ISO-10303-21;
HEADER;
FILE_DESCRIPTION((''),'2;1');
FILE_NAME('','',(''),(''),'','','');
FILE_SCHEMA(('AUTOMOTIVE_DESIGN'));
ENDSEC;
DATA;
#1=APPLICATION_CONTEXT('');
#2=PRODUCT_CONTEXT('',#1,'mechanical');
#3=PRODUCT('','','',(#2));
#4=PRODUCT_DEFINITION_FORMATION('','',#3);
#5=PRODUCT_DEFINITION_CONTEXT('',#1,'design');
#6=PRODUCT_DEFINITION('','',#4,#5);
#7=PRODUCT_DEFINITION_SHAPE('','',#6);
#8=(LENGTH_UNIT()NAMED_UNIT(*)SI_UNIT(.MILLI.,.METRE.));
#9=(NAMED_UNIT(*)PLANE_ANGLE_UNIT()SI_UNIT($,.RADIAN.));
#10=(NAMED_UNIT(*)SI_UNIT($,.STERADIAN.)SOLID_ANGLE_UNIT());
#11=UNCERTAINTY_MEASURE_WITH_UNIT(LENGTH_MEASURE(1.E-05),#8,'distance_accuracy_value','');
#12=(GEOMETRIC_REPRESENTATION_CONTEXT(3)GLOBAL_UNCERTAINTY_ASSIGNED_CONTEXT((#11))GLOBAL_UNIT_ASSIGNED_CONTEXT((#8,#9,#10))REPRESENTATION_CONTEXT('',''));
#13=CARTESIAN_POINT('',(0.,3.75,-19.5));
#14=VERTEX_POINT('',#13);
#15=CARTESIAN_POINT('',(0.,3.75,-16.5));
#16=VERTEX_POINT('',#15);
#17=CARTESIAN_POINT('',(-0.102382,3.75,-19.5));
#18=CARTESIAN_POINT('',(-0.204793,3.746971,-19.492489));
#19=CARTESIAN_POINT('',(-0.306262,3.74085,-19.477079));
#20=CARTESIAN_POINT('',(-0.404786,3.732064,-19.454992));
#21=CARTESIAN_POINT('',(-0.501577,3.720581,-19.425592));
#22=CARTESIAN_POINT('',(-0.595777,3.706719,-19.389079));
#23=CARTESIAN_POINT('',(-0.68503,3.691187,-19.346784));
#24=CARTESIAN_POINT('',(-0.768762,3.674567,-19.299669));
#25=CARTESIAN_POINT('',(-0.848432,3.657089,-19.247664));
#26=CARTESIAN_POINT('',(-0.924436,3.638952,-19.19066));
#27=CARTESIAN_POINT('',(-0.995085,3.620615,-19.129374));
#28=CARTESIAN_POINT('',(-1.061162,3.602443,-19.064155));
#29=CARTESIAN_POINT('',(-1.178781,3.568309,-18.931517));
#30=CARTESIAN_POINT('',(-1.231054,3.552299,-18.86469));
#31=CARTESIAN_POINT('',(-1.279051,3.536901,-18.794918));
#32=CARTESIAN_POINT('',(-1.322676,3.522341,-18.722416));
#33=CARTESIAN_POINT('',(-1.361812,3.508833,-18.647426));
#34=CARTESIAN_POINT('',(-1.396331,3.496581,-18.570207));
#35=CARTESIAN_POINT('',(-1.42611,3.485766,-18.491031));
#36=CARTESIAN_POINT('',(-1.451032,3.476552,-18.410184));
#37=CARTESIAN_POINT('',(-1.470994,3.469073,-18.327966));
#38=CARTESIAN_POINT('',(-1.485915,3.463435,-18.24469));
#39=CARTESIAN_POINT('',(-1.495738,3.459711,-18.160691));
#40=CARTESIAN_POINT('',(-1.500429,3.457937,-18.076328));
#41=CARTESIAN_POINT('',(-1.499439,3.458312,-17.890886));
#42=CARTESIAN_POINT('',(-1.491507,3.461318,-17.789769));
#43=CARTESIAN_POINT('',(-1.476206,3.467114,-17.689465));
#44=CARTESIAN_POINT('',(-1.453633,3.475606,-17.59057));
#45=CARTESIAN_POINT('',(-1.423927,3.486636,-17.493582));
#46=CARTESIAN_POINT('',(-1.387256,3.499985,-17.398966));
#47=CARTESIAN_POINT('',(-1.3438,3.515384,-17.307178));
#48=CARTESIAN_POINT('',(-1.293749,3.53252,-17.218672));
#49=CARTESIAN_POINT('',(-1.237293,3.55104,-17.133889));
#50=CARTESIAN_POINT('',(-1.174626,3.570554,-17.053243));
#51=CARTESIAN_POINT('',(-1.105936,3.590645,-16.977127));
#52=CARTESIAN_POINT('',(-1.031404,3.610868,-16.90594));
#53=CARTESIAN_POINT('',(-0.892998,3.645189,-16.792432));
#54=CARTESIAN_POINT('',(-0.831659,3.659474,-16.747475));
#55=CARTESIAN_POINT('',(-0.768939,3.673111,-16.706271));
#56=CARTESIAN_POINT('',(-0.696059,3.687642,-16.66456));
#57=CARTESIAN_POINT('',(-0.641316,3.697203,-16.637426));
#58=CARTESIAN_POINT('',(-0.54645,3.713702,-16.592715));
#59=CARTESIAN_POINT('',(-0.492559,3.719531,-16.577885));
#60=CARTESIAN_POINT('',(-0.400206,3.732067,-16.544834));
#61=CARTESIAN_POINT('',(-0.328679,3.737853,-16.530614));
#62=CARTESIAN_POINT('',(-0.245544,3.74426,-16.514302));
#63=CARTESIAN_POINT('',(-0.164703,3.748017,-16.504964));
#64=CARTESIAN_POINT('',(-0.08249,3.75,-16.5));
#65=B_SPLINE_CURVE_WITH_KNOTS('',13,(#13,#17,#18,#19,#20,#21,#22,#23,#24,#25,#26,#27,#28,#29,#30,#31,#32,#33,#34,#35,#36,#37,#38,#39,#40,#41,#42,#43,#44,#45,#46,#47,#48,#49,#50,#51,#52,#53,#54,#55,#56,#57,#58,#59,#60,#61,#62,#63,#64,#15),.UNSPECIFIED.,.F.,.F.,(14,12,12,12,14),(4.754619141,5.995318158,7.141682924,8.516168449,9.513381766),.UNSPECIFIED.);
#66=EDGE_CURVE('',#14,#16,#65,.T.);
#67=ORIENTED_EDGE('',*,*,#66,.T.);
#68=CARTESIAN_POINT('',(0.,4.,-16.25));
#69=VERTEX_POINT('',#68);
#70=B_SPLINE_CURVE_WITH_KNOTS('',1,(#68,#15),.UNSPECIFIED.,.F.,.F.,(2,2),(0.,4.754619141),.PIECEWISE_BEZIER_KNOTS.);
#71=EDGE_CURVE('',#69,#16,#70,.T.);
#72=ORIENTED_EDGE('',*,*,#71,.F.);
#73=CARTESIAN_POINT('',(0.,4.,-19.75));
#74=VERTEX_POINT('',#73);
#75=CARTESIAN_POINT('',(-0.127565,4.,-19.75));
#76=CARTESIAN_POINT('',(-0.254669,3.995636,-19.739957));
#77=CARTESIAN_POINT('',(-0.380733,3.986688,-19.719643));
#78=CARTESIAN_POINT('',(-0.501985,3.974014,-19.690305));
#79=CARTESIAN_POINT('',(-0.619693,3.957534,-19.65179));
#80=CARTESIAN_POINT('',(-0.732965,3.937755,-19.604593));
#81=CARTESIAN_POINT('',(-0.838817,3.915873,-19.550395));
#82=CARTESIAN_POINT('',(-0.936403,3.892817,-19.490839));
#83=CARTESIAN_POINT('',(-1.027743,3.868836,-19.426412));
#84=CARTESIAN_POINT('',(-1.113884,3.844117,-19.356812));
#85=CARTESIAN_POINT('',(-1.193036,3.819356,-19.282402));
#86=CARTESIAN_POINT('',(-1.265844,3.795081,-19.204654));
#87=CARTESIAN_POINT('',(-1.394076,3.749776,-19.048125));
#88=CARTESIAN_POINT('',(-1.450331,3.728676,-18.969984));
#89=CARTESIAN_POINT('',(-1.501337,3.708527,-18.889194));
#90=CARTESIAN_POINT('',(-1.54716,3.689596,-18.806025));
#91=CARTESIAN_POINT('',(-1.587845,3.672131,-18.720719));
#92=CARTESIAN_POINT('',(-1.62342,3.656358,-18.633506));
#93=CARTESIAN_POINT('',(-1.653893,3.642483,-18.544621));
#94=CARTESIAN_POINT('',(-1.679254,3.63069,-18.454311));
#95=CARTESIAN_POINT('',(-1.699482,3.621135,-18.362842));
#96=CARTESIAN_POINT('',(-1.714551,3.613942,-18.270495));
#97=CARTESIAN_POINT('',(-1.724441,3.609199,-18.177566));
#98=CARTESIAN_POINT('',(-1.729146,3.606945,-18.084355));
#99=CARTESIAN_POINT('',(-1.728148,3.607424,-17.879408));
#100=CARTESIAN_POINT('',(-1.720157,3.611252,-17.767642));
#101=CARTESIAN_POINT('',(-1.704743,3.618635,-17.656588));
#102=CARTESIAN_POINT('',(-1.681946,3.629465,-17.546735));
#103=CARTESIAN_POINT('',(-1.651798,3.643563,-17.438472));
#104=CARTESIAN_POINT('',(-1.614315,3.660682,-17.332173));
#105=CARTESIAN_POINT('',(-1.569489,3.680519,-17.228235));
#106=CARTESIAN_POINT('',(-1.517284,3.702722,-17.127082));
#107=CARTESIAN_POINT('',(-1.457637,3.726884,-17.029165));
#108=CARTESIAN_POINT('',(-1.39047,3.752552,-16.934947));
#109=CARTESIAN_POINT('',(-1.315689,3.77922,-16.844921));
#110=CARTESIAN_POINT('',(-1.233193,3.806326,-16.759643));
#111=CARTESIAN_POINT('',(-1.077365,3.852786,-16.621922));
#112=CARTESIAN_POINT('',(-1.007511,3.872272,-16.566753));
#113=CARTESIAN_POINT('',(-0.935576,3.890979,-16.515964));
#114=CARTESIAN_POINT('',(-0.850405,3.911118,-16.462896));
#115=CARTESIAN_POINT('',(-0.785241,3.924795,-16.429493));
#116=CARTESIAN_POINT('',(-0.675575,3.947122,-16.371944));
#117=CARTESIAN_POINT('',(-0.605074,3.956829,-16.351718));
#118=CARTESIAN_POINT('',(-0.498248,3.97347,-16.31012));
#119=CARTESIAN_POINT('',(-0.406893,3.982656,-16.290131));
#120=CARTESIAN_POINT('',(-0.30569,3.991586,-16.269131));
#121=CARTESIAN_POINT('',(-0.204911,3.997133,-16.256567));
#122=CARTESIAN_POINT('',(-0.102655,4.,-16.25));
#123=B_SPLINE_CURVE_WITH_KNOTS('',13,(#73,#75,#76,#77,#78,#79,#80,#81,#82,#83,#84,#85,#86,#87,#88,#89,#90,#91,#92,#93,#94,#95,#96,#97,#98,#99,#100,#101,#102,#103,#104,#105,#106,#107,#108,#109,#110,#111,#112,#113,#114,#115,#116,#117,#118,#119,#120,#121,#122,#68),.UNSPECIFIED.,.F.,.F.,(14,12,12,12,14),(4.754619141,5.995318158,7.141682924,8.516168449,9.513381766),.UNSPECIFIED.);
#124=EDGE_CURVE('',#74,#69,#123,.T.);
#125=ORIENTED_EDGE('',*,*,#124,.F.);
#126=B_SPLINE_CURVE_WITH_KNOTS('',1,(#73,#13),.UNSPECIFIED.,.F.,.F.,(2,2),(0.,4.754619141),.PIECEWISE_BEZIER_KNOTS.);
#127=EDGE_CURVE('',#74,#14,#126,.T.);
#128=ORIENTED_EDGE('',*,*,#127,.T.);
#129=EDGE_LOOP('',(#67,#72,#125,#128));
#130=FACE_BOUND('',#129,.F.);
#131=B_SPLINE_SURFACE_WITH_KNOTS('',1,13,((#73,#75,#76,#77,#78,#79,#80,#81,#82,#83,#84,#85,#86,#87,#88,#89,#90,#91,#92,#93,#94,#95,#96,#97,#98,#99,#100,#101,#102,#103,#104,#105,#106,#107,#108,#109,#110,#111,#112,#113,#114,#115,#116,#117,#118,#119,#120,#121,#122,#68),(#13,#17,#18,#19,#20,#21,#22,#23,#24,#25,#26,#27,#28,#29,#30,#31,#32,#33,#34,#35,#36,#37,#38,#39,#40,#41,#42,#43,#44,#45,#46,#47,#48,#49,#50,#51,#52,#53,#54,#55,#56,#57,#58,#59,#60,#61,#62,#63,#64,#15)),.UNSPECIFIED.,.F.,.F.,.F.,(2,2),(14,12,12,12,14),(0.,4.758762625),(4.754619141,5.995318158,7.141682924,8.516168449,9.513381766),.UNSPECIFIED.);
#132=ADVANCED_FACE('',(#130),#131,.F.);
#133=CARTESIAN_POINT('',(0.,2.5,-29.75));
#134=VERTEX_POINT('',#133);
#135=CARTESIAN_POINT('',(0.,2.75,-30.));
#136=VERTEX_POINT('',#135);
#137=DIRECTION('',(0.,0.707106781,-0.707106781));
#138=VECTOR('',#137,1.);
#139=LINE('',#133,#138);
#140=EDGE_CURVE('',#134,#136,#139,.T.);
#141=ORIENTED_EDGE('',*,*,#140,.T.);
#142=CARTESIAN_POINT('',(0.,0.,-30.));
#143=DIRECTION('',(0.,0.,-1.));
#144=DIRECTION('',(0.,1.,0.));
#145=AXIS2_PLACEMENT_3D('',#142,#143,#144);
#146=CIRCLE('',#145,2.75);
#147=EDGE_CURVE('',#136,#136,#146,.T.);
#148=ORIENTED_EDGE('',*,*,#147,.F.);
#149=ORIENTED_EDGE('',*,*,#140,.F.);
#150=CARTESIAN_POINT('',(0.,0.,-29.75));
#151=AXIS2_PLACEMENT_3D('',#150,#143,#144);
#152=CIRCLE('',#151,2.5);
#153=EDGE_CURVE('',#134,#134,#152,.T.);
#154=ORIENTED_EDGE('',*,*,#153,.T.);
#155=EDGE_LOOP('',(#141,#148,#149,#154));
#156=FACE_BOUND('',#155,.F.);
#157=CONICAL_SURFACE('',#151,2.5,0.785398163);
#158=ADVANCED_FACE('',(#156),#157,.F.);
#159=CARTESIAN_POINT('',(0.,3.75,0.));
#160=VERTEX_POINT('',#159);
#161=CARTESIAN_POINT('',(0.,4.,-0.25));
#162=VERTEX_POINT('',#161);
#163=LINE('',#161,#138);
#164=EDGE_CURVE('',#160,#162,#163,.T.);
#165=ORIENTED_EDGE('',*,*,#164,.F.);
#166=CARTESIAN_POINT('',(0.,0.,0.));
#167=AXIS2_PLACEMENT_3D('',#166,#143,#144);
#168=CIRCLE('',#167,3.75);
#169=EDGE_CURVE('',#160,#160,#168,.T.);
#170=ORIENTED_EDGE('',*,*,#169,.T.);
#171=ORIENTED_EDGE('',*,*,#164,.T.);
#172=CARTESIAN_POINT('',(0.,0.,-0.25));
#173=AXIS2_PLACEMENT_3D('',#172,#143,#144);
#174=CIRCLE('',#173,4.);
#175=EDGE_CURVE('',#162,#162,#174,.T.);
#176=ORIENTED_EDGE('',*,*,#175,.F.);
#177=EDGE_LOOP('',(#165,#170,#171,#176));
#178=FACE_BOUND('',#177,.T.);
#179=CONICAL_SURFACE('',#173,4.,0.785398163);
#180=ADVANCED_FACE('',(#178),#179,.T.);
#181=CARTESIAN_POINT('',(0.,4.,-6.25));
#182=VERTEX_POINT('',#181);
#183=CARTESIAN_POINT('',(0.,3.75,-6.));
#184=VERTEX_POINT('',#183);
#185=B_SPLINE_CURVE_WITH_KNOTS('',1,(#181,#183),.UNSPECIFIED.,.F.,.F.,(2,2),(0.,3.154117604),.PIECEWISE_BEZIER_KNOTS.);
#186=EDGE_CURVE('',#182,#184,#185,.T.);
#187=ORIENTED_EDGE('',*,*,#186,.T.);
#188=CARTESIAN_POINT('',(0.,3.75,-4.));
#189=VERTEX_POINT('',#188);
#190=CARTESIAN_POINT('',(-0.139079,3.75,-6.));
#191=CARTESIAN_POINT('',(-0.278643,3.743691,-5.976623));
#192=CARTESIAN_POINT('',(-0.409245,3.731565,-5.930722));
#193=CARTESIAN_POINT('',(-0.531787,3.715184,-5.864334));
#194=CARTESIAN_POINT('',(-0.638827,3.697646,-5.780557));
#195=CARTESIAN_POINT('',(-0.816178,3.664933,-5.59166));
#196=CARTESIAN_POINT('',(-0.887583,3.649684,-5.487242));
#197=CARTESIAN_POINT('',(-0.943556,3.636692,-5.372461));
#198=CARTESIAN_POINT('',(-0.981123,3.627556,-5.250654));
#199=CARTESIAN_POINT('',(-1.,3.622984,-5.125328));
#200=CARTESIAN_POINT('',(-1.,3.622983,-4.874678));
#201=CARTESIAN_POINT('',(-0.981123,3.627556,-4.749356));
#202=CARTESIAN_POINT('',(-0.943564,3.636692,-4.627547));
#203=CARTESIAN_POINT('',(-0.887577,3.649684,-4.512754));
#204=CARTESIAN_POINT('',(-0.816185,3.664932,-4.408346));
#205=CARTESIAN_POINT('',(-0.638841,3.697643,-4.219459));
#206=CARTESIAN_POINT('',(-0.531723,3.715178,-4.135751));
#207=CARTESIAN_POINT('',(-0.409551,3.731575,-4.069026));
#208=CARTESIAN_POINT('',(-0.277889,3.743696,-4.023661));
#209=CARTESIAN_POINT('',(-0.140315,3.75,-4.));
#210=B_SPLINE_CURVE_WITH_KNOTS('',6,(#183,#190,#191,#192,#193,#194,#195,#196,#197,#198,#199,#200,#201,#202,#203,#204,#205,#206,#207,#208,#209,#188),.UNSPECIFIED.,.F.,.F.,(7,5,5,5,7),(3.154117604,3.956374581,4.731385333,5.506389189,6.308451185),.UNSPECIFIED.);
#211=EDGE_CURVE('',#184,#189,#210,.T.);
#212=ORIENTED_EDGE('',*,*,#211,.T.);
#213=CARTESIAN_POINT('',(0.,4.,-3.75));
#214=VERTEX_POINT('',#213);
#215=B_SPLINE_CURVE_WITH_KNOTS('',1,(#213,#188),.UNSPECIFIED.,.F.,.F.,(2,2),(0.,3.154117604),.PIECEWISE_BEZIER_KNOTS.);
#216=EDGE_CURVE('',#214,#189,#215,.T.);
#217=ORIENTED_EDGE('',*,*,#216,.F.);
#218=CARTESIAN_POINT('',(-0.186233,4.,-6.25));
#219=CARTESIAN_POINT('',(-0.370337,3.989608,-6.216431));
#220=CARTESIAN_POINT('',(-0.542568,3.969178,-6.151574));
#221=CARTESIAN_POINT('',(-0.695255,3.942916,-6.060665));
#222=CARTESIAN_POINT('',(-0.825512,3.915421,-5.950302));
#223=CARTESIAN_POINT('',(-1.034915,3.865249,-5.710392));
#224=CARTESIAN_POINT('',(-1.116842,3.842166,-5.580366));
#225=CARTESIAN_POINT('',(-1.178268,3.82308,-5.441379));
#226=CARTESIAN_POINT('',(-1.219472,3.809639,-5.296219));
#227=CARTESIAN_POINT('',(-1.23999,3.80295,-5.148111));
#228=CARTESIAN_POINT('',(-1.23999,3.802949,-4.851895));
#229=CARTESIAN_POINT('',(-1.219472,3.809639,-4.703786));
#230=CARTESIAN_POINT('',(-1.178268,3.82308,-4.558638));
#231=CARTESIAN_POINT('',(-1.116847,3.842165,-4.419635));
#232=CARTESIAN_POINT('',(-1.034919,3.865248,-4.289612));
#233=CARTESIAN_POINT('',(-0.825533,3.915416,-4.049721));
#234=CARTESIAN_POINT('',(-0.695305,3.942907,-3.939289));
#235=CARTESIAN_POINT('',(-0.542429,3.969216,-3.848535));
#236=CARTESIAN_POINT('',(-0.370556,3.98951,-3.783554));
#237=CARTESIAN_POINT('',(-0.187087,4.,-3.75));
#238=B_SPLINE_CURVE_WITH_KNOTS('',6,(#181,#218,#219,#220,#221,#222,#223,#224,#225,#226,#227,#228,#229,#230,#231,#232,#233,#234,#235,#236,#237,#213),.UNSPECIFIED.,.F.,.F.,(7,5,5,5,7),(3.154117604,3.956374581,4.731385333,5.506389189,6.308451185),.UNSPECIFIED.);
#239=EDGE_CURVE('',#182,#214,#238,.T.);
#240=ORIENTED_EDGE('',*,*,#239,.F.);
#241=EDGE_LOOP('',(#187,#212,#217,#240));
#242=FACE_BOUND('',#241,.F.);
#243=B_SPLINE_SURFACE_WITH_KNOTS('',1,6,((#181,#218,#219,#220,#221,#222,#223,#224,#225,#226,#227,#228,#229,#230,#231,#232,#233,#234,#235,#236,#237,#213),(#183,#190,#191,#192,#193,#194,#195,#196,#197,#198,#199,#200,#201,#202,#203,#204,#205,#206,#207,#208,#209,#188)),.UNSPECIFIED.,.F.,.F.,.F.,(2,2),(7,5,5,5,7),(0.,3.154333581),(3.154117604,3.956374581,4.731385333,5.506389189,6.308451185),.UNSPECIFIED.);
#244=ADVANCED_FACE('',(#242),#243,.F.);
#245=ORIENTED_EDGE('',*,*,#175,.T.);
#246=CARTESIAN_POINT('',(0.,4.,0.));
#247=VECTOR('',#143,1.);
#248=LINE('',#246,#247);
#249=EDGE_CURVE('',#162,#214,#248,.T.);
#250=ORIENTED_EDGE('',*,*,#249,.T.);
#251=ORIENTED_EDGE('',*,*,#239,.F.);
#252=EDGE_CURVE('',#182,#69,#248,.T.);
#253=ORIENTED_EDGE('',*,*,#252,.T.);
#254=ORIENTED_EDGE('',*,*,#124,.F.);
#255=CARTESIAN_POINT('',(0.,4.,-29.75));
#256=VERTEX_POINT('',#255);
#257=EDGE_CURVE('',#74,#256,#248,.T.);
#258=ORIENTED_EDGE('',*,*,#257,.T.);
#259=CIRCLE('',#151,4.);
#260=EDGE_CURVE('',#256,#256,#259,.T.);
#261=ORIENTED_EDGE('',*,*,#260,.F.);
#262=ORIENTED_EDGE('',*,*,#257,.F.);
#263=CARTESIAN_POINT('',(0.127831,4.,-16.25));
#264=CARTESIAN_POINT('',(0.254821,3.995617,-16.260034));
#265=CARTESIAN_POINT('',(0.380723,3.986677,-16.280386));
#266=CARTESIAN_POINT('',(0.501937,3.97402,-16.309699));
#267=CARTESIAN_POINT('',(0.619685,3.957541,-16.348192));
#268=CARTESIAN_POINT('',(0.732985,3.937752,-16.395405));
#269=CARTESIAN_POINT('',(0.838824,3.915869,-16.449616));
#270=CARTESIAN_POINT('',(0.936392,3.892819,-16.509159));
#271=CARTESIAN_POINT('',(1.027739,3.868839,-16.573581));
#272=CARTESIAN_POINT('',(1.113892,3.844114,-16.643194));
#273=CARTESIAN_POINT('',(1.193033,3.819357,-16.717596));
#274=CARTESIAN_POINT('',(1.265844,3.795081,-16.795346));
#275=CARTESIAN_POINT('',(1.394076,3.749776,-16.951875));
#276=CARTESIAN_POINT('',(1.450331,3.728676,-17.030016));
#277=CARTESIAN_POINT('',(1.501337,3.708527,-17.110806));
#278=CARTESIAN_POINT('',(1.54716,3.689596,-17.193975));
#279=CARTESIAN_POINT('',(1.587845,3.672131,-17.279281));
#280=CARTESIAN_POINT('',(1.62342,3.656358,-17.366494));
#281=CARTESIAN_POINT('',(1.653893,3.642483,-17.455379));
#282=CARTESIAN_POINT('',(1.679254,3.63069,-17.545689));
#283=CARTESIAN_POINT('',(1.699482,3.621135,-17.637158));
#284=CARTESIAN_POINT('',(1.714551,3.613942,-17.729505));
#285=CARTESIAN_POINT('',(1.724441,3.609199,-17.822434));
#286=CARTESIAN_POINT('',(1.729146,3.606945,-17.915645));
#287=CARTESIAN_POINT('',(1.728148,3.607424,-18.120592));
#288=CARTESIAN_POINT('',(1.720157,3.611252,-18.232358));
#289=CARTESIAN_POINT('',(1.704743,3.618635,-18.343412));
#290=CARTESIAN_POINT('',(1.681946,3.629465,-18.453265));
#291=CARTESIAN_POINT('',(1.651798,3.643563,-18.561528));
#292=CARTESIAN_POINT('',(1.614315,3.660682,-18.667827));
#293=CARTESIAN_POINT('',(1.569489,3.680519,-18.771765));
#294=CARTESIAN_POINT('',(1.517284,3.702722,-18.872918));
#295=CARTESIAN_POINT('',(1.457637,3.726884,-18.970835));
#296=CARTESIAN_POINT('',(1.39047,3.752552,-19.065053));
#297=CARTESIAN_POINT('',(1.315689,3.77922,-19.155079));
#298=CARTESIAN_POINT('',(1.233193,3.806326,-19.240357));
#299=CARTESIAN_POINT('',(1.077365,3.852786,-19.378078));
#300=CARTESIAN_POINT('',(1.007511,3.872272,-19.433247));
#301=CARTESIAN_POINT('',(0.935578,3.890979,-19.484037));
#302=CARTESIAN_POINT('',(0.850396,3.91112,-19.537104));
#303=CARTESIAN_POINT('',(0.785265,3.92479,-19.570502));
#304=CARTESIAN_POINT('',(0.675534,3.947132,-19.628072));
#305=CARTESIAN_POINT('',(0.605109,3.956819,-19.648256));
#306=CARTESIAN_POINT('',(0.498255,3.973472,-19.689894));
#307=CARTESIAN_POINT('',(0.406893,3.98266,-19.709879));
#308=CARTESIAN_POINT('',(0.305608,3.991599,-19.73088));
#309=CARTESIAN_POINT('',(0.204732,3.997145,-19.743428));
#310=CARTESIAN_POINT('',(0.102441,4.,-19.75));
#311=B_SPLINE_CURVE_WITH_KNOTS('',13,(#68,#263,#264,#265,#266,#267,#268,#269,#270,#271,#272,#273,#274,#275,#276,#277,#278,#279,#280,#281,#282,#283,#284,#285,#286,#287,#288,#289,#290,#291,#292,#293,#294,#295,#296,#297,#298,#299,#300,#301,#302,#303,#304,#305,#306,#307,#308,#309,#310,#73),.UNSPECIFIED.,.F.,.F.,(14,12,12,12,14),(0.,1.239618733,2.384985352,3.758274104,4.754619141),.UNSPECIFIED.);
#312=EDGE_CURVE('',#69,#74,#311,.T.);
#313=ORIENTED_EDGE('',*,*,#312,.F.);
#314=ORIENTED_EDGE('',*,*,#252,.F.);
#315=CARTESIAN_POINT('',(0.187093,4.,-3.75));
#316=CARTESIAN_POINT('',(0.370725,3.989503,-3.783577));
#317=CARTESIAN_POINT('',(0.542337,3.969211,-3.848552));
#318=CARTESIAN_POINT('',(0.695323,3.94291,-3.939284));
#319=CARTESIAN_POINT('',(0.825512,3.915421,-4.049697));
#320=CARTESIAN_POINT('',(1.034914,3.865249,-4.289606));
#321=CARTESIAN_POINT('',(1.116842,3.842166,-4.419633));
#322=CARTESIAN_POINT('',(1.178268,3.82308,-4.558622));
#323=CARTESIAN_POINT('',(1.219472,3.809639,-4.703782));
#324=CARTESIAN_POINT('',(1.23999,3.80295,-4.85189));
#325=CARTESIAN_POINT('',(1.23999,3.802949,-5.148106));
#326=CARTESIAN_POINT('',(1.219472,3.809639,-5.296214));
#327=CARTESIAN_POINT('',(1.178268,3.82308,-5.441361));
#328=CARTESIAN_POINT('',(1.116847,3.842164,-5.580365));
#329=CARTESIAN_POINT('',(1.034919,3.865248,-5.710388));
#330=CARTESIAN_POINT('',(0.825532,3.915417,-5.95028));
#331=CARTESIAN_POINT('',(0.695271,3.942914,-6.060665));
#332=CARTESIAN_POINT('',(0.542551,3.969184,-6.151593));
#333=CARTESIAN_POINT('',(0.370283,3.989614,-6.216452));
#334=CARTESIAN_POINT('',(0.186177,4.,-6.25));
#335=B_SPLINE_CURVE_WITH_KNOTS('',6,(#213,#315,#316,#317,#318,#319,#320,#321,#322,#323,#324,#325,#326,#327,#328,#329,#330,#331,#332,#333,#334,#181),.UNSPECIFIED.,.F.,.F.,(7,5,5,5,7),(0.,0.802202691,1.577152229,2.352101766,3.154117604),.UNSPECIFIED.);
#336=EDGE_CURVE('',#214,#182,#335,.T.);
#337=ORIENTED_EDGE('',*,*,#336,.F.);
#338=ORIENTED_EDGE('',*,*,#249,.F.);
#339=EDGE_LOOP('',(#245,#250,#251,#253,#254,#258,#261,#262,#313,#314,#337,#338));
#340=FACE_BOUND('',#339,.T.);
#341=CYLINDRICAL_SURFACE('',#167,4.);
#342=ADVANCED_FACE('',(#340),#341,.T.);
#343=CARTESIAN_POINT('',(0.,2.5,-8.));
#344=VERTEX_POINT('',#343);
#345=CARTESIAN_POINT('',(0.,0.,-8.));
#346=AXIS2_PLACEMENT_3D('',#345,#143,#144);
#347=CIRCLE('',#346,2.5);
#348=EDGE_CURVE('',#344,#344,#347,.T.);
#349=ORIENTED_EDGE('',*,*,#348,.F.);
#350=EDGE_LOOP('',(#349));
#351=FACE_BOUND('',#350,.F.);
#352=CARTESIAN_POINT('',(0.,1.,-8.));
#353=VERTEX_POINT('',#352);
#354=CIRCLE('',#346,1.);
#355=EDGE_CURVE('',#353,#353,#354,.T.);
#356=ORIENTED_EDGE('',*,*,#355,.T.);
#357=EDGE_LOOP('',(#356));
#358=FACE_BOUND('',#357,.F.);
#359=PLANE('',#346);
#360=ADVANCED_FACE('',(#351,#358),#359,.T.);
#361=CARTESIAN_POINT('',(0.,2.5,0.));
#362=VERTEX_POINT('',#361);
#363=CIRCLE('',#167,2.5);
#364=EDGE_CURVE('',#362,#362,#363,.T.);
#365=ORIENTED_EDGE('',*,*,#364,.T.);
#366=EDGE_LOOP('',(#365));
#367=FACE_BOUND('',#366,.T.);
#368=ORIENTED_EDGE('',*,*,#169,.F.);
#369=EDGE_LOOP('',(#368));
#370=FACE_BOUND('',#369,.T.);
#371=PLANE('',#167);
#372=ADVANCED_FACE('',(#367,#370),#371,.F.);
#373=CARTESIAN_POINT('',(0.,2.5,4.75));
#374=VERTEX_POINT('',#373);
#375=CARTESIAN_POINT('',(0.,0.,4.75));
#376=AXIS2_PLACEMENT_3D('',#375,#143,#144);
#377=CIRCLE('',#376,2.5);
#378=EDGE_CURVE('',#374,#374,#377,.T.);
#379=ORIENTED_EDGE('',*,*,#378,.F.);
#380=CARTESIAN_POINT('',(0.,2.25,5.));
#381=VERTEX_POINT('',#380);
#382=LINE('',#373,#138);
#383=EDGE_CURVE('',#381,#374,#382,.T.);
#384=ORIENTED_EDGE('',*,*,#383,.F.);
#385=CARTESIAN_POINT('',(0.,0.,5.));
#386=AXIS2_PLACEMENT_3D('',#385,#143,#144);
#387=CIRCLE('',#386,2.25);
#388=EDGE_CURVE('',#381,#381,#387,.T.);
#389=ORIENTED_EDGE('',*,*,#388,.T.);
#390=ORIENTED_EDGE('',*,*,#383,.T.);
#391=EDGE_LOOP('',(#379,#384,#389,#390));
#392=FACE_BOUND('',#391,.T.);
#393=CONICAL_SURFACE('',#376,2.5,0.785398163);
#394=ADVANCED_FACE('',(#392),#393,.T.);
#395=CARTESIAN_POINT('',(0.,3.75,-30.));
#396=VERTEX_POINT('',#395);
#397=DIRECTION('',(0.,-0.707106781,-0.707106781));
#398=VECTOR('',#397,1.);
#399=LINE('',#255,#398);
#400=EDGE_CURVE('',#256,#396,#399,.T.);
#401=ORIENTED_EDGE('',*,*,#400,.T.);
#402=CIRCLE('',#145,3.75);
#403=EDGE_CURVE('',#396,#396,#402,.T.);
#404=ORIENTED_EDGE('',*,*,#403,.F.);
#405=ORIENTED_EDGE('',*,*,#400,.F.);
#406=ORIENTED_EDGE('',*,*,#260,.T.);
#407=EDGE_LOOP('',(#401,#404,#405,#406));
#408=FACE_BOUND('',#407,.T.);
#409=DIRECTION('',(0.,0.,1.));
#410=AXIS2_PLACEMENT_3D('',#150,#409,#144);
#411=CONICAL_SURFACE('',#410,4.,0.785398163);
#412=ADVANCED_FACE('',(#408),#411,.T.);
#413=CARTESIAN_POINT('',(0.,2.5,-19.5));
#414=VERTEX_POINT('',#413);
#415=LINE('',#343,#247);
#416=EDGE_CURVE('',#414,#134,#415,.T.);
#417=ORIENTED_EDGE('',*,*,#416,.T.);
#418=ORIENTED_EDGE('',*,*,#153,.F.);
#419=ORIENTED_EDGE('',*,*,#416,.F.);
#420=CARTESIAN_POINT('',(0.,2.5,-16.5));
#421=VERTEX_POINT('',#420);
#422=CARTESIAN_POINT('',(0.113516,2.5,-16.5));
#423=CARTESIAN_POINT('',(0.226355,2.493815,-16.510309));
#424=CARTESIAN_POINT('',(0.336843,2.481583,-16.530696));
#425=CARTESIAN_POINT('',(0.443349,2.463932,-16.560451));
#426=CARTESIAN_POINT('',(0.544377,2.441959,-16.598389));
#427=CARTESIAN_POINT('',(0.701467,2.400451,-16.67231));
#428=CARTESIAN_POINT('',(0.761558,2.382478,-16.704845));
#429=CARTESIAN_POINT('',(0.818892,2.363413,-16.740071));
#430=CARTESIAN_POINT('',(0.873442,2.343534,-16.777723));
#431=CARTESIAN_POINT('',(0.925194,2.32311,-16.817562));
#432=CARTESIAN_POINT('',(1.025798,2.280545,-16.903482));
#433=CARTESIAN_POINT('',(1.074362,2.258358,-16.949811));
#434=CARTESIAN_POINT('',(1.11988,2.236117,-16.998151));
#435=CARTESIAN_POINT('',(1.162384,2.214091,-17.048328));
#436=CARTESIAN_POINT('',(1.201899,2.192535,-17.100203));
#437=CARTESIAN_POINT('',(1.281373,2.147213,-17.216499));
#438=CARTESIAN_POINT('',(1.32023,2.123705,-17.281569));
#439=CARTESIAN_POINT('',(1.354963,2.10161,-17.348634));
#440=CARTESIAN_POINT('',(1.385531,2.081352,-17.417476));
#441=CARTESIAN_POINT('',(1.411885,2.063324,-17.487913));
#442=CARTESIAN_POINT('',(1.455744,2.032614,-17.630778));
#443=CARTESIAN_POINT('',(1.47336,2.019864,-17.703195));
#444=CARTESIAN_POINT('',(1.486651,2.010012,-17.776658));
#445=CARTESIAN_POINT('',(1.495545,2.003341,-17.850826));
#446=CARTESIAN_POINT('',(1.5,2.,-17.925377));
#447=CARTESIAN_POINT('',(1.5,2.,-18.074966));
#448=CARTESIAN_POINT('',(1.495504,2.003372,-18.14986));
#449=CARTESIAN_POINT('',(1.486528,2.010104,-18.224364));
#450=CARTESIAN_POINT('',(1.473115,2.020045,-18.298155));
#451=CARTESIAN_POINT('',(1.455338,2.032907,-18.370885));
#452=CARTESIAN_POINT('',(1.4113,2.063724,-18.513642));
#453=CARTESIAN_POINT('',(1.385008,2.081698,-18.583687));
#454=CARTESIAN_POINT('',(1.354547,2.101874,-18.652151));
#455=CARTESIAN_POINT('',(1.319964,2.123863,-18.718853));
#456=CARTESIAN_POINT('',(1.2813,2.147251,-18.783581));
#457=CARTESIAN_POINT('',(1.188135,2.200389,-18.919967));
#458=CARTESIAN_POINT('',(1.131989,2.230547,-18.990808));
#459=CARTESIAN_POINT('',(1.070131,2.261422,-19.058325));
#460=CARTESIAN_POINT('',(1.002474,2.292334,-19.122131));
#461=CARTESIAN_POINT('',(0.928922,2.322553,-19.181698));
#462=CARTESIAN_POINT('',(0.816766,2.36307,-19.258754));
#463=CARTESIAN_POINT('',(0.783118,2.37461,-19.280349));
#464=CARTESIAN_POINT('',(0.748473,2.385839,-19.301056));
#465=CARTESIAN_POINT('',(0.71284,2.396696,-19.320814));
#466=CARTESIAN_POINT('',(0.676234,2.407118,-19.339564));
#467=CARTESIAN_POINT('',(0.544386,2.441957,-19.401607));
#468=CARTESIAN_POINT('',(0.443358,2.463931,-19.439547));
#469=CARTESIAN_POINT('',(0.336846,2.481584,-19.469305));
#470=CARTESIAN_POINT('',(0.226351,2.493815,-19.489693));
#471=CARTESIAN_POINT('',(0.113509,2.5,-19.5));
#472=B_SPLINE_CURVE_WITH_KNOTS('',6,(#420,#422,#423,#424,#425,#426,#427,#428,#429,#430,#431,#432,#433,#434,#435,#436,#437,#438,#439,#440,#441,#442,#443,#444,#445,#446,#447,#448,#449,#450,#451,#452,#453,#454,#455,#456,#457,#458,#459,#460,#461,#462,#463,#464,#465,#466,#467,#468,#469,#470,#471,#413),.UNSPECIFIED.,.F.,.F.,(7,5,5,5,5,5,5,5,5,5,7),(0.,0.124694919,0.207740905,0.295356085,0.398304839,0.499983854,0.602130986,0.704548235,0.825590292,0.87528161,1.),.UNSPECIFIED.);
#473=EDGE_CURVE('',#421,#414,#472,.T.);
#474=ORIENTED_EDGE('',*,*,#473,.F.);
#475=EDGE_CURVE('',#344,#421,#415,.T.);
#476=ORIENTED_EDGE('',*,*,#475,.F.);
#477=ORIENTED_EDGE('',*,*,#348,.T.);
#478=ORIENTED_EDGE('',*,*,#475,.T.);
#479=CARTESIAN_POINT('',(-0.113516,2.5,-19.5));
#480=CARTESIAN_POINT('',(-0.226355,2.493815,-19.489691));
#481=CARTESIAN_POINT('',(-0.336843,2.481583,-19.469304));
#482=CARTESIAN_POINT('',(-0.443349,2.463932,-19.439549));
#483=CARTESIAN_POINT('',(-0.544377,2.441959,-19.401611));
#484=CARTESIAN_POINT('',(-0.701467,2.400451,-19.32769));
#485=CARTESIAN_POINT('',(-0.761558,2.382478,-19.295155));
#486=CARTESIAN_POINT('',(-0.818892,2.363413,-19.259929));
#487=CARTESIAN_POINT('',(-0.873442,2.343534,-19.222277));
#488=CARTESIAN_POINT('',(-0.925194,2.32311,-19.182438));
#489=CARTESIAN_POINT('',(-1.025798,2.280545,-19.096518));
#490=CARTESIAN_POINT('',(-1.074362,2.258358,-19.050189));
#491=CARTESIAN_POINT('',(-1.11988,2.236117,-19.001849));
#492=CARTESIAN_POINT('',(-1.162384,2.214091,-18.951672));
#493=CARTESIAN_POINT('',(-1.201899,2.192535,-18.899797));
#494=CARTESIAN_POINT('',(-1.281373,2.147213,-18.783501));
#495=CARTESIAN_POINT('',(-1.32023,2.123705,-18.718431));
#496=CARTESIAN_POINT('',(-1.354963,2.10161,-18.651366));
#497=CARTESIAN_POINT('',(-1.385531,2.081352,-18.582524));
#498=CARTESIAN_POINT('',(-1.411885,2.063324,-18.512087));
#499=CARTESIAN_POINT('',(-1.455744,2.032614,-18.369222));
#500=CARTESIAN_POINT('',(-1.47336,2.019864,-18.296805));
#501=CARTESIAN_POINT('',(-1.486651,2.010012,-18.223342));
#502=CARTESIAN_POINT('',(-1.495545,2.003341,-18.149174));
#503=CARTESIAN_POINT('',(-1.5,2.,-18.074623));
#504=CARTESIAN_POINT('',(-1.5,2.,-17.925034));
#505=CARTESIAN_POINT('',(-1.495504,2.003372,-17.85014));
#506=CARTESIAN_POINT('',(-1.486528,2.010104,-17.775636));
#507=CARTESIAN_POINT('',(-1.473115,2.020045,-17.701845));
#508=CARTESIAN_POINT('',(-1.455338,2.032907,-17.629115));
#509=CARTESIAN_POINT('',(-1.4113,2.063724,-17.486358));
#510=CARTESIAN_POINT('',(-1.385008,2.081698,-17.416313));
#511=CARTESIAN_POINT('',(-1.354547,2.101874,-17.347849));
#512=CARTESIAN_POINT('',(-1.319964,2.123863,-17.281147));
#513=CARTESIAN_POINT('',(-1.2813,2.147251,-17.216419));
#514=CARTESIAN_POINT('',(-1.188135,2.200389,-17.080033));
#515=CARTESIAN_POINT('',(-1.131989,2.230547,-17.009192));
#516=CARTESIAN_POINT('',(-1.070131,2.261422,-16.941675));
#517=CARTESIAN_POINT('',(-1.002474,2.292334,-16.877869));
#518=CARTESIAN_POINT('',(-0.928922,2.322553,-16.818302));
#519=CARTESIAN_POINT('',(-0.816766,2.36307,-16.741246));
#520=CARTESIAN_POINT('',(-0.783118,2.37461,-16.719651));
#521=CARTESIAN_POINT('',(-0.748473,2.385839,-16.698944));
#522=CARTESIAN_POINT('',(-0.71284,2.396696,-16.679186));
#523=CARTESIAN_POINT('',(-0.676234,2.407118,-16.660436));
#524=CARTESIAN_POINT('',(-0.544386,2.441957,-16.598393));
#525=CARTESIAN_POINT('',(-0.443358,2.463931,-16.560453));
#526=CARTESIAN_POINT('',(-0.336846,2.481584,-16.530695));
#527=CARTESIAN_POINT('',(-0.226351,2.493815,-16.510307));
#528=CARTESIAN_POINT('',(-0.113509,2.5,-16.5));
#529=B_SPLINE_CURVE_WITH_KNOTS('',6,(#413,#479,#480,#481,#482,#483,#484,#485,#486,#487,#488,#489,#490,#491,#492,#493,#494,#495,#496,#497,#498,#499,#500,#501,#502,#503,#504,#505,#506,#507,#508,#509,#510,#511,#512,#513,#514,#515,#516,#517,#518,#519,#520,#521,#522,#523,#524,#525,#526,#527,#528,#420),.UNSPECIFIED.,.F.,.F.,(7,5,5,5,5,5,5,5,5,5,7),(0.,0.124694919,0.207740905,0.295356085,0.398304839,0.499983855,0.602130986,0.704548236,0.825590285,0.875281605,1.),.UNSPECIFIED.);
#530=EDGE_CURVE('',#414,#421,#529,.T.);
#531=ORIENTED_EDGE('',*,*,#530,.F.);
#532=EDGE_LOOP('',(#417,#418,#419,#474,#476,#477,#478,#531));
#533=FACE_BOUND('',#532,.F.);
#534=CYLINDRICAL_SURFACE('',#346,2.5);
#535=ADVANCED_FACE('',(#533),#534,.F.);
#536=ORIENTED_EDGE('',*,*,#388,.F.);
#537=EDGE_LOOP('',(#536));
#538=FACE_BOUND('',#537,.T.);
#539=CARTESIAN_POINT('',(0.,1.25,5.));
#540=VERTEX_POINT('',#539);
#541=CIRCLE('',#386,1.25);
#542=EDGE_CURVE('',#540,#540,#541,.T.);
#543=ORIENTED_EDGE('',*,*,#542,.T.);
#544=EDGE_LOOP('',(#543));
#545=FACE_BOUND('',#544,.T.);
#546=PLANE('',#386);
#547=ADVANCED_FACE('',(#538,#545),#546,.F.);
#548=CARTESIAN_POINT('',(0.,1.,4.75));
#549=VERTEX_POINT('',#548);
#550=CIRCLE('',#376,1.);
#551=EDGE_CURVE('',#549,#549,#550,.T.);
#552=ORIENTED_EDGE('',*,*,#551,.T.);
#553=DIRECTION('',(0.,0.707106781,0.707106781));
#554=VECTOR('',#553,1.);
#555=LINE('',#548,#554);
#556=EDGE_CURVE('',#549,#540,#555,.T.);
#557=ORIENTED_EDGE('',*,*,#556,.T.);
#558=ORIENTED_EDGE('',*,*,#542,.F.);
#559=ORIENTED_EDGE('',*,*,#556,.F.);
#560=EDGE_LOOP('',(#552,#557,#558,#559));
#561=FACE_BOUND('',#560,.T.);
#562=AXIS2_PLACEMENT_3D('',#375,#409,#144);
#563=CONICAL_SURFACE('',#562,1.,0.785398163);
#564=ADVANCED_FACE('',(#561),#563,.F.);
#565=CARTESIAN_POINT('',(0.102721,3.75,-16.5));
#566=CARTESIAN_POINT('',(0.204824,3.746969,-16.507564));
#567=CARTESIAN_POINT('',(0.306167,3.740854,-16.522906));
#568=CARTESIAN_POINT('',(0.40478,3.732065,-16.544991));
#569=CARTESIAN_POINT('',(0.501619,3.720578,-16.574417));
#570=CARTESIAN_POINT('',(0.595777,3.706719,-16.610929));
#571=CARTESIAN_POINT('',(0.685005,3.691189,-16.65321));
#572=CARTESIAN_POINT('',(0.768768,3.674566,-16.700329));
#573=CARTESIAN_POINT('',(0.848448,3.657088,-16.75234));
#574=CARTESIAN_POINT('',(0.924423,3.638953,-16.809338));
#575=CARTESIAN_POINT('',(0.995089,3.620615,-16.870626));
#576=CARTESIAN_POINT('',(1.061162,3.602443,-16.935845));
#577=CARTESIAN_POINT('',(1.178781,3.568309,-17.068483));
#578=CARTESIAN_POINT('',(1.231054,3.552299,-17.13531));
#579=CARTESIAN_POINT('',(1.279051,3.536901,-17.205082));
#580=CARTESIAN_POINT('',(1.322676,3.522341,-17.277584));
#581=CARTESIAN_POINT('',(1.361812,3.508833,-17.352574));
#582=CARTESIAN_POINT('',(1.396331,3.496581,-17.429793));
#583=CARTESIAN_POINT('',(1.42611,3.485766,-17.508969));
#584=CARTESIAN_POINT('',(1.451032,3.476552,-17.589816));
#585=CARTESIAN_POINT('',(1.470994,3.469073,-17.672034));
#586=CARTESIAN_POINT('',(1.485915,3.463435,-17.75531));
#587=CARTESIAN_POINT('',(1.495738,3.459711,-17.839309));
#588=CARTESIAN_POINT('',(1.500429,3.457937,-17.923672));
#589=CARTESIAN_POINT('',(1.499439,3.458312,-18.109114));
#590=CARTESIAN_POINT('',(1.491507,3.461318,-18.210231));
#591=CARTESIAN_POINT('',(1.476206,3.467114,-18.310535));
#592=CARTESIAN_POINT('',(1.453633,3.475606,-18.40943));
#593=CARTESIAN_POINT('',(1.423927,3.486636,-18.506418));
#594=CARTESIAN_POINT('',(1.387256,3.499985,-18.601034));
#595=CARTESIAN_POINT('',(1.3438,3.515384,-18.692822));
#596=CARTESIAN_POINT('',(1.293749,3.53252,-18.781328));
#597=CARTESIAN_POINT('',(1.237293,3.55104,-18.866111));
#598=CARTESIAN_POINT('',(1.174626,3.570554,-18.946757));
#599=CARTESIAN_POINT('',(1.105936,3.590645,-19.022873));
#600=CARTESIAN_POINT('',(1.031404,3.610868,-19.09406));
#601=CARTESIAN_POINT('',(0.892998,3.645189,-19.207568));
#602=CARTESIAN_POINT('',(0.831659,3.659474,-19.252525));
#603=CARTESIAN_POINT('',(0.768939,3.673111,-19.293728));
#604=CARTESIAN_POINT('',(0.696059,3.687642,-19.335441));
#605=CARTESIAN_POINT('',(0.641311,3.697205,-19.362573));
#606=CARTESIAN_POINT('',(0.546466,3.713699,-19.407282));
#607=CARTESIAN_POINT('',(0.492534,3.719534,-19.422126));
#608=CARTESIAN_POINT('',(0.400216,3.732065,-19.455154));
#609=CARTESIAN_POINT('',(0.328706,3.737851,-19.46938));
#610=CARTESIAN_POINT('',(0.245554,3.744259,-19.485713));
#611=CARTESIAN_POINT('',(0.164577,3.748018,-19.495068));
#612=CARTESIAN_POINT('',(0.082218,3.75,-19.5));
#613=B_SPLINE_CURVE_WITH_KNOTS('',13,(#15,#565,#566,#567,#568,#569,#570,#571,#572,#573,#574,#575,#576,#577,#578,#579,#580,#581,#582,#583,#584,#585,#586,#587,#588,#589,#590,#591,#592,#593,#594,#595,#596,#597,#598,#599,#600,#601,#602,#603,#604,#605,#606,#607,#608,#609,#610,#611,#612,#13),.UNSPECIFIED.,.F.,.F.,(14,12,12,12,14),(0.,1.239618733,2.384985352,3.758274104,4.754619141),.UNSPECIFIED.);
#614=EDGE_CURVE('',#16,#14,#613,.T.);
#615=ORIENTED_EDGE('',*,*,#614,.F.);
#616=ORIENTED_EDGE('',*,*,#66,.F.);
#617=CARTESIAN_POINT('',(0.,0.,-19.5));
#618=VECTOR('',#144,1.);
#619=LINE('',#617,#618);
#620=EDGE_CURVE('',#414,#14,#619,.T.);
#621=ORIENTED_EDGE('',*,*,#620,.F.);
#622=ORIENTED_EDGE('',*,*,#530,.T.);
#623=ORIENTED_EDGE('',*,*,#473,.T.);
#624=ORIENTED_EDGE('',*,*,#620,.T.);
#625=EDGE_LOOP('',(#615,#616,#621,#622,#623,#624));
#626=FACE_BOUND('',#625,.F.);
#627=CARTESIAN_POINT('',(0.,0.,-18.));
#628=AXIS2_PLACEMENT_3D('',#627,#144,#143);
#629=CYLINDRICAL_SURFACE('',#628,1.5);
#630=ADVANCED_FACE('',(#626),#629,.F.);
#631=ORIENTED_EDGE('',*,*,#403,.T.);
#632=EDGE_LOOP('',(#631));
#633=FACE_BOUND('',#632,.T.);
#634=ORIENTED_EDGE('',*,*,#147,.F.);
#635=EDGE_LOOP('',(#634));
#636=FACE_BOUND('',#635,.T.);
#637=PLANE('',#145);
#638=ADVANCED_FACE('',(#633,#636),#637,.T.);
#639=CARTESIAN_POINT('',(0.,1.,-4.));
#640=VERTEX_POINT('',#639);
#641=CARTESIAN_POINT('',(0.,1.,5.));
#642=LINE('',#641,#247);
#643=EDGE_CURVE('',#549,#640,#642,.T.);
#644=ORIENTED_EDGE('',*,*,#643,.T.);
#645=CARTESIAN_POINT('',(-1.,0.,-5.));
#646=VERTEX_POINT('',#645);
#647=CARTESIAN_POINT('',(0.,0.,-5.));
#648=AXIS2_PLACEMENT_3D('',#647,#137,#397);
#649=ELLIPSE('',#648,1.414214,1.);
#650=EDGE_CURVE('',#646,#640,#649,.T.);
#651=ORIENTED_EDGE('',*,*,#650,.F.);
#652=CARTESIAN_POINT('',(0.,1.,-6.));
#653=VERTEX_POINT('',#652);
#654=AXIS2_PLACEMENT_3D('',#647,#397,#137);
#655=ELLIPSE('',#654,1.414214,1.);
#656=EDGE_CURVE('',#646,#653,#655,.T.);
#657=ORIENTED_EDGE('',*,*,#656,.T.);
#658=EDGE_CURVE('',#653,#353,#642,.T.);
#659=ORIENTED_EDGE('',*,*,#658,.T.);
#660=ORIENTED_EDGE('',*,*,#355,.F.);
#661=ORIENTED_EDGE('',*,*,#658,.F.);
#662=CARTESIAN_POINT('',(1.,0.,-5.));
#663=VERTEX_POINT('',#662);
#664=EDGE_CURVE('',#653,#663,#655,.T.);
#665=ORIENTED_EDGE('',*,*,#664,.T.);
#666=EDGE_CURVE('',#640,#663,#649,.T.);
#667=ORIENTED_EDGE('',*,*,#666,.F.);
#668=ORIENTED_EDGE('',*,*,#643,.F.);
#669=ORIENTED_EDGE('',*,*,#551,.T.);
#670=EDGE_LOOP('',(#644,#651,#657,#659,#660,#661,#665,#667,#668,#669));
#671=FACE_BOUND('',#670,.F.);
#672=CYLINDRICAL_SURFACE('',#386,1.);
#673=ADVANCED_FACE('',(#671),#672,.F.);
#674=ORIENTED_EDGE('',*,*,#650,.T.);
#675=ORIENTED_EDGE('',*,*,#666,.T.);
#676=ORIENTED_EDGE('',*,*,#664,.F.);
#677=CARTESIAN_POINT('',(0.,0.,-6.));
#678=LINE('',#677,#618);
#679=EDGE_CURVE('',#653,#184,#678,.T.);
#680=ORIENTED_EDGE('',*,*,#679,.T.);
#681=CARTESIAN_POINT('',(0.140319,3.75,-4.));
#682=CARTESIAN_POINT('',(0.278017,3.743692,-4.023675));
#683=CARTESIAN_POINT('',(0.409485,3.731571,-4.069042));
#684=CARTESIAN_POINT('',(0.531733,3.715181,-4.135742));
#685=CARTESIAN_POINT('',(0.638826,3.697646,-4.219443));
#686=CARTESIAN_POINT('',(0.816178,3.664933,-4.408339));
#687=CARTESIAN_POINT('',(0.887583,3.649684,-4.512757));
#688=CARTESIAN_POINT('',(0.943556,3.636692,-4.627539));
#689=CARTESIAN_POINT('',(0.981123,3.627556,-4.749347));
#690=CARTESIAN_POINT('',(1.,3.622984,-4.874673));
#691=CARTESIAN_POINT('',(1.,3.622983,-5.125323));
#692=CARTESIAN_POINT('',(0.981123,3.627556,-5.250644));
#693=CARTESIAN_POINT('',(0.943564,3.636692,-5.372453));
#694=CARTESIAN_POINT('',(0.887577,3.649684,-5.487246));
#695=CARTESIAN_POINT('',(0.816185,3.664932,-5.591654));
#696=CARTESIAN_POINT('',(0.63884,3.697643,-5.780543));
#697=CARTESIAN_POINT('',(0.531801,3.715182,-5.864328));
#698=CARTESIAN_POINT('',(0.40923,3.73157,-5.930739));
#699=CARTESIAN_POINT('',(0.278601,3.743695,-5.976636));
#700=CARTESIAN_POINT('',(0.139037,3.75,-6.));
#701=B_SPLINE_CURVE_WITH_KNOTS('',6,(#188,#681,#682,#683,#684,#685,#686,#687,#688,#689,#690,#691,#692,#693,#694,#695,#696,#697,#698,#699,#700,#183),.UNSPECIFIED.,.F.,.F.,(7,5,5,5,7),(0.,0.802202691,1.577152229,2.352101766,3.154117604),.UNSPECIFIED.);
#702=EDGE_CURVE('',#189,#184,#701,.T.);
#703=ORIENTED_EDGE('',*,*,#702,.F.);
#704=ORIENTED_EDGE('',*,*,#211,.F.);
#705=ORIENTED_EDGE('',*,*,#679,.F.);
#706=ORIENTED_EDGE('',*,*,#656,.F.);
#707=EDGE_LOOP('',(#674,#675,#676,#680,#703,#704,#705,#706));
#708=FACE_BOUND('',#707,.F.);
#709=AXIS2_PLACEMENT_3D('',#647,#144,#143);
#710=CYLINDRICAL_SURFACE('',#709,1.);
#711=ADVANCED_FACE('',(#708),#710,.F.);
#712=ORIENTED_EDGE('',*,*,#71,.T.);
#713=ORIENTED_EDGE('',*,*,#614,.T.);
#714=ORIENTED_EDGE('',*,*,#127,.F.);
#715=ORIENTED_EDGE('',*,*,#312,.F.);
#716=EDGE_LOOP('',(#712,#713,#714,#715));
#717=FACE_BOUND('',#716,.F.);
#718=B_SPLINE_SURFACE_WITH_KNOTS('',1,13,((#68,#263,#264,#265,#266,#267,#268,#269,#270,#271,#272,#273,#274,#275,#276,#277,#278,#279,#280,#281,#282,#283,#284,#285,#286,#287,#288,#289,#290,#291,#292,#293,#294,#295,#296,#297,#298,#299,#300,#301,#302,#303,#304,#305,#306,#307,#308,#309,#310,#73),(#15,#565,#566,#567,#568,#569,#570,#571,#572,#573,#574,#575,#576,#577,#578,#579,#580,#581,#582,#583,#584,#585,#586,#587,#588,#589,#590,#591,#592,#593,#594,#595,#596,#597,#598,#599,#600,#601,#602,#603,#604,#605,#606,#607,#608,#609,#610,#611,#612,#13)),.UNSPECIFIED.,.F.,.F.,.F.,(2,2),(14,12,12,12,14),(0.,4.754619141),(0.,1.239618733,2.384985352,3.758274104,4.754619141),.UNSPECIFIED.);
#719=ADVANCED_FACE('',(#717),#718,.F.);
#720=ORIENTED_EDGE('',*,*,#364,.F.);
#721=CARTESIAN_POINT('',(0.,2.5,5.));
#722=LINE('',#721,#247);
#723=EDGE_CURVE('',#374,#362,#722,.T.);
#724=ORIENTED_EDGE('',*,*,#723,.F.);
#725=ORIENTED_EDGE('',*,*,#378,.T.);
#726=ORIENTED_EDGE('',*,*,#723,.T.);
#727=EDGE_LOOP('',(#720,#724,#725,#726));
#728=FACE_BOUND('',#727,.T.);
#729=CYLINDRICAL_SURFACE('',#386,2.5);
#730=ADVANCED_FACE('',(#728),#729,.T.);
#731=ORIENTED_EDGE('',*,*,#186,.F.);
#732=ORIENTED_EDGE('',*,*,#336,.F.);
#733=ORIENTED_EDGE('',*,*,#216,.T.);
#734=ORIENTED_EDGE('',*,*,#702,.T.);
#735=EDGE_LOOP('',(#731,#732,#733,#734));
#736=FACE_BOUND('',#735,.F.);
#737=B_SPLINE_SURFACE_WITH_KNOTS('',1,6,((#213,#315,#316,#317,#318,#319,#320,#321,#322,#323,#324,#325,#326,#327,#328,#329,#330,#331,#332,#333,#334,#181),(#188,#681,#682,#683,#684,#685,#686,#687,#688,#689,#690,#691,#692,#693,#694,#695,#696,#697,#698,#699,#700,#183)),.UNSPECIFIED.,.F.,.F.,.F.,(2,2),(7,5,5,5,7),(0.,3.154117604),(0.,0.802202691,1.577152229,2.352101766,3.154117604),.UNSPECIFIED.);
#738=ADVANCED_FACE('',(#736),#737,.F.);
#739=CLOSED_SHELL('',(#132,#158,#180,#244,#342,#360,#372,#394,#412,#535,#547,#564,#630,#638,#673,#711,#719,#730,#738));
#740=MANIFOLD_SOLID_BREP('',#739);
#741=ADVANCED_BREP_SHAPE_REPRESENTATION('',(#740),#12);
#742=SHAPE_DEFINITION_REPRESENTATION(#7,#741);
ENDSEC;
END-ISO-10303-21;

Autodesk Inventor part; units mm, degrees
ref_plane "YZ Plane" through (0, 0, 0) normal (1, 0, 0) x (0, 1, 0)
ref_plane "XZ Plane" through (0, 0, 0) normal (0, 1, 0) x (-1, 0, 0)
ref_plane "XY Plane" through (0, 0, 0) normal (0, 0, 1) x (1, 0, 0)
sketch "Skizze1" plane through (0, 0, 0) normal (1, 0, 0) x (0, 1, 0)
  line L0 (0, 20) -> (0, -20)
  line L1 (0, 5) -> (2.5, 5)
  line L2 (2.5, 5) -> (2.5, 0)
  line L3 (2.5, 0) -> (0, 0) construction
  line L4 (2.5, 0) -> (4, 0)
  line L5 (4, 0) -> (4, -30)
  line L6 (4, -30) -> (0, -30)
  line L7 (2.5, -8) -> (2.5, -30)
  line L8 (1, 5) -> (1, -8)
  line L9 (1, -8) -> (2.5, -8)
  dimension "d0" = 40
  dimension "d1" = 5
  dimension "d2" = 5
  dimension "d4" = 8
  dimension "d5" = 30
  dimension "d8" = 22
  dimension "d9" = 5
  dimension "d10" = 2
revolve "Umdrehung1" add sketch "Skizze1" angle 360 about axis through (0, 0, 20) along (0, 0, -1)
sketch "Skizze2" plane through (0, 0, 0) normal (0, 1, 0) x (-1, 0, 0)
  line L0 (-4, -30) -> (4, -30) projected
  line L1 (-4, 0) -> (4, 0) projected
  point P0 (0, 0)
  point P1 (0, -5)
  point P2 (0, -18)
  dimension "d12" = 12
  dimension "d13" = 5
hole "Bohrung1" at (0, 0, -5) direction (0, 1, 0) diameter 2 end through all
hole "Bohrung2" at (0, 0, -18) direction (0, 1, 0) diameter 3 end through all
thread "Gewinde1" size "M3x0.5" class "6H" standard "ISO Metric profile" full length
thread "Gewinde2" size "M2x0.4" class "6H" standard "ISO Metric profile" full length
chamfer "Fase1" distance 0.25 angle 45 2 edges at (1.5, 3.7081, -18.0006) (-1.5, 3.7081, -17.9994)
chamfer "Fase2" distance 0.25 angle 45 2 edges at (1, 3.873, -4.9999) (-1, 3.873, -5.0001)
chamfer "Fase3" distance 0.25 angle 45 1 edges at (0, -1, 5)
chamfer "Fase4" distance 0.25 angle 45 1 edges at (0, -2.5, -30)
chamfer "Fase5" distance 0.25 angle 45 1 edges at (0, -2.5, 5)
chamfer "Fase6" distance 0.25 angle 45 1 edges at (0, -4, 0)
chamfer "Fase7" distance 0.25 angle 45 1 edges at (0, -4, -30)
properties part number "BT802_goteln20_21_Zeichenmaschine_Welle_2zu5"
